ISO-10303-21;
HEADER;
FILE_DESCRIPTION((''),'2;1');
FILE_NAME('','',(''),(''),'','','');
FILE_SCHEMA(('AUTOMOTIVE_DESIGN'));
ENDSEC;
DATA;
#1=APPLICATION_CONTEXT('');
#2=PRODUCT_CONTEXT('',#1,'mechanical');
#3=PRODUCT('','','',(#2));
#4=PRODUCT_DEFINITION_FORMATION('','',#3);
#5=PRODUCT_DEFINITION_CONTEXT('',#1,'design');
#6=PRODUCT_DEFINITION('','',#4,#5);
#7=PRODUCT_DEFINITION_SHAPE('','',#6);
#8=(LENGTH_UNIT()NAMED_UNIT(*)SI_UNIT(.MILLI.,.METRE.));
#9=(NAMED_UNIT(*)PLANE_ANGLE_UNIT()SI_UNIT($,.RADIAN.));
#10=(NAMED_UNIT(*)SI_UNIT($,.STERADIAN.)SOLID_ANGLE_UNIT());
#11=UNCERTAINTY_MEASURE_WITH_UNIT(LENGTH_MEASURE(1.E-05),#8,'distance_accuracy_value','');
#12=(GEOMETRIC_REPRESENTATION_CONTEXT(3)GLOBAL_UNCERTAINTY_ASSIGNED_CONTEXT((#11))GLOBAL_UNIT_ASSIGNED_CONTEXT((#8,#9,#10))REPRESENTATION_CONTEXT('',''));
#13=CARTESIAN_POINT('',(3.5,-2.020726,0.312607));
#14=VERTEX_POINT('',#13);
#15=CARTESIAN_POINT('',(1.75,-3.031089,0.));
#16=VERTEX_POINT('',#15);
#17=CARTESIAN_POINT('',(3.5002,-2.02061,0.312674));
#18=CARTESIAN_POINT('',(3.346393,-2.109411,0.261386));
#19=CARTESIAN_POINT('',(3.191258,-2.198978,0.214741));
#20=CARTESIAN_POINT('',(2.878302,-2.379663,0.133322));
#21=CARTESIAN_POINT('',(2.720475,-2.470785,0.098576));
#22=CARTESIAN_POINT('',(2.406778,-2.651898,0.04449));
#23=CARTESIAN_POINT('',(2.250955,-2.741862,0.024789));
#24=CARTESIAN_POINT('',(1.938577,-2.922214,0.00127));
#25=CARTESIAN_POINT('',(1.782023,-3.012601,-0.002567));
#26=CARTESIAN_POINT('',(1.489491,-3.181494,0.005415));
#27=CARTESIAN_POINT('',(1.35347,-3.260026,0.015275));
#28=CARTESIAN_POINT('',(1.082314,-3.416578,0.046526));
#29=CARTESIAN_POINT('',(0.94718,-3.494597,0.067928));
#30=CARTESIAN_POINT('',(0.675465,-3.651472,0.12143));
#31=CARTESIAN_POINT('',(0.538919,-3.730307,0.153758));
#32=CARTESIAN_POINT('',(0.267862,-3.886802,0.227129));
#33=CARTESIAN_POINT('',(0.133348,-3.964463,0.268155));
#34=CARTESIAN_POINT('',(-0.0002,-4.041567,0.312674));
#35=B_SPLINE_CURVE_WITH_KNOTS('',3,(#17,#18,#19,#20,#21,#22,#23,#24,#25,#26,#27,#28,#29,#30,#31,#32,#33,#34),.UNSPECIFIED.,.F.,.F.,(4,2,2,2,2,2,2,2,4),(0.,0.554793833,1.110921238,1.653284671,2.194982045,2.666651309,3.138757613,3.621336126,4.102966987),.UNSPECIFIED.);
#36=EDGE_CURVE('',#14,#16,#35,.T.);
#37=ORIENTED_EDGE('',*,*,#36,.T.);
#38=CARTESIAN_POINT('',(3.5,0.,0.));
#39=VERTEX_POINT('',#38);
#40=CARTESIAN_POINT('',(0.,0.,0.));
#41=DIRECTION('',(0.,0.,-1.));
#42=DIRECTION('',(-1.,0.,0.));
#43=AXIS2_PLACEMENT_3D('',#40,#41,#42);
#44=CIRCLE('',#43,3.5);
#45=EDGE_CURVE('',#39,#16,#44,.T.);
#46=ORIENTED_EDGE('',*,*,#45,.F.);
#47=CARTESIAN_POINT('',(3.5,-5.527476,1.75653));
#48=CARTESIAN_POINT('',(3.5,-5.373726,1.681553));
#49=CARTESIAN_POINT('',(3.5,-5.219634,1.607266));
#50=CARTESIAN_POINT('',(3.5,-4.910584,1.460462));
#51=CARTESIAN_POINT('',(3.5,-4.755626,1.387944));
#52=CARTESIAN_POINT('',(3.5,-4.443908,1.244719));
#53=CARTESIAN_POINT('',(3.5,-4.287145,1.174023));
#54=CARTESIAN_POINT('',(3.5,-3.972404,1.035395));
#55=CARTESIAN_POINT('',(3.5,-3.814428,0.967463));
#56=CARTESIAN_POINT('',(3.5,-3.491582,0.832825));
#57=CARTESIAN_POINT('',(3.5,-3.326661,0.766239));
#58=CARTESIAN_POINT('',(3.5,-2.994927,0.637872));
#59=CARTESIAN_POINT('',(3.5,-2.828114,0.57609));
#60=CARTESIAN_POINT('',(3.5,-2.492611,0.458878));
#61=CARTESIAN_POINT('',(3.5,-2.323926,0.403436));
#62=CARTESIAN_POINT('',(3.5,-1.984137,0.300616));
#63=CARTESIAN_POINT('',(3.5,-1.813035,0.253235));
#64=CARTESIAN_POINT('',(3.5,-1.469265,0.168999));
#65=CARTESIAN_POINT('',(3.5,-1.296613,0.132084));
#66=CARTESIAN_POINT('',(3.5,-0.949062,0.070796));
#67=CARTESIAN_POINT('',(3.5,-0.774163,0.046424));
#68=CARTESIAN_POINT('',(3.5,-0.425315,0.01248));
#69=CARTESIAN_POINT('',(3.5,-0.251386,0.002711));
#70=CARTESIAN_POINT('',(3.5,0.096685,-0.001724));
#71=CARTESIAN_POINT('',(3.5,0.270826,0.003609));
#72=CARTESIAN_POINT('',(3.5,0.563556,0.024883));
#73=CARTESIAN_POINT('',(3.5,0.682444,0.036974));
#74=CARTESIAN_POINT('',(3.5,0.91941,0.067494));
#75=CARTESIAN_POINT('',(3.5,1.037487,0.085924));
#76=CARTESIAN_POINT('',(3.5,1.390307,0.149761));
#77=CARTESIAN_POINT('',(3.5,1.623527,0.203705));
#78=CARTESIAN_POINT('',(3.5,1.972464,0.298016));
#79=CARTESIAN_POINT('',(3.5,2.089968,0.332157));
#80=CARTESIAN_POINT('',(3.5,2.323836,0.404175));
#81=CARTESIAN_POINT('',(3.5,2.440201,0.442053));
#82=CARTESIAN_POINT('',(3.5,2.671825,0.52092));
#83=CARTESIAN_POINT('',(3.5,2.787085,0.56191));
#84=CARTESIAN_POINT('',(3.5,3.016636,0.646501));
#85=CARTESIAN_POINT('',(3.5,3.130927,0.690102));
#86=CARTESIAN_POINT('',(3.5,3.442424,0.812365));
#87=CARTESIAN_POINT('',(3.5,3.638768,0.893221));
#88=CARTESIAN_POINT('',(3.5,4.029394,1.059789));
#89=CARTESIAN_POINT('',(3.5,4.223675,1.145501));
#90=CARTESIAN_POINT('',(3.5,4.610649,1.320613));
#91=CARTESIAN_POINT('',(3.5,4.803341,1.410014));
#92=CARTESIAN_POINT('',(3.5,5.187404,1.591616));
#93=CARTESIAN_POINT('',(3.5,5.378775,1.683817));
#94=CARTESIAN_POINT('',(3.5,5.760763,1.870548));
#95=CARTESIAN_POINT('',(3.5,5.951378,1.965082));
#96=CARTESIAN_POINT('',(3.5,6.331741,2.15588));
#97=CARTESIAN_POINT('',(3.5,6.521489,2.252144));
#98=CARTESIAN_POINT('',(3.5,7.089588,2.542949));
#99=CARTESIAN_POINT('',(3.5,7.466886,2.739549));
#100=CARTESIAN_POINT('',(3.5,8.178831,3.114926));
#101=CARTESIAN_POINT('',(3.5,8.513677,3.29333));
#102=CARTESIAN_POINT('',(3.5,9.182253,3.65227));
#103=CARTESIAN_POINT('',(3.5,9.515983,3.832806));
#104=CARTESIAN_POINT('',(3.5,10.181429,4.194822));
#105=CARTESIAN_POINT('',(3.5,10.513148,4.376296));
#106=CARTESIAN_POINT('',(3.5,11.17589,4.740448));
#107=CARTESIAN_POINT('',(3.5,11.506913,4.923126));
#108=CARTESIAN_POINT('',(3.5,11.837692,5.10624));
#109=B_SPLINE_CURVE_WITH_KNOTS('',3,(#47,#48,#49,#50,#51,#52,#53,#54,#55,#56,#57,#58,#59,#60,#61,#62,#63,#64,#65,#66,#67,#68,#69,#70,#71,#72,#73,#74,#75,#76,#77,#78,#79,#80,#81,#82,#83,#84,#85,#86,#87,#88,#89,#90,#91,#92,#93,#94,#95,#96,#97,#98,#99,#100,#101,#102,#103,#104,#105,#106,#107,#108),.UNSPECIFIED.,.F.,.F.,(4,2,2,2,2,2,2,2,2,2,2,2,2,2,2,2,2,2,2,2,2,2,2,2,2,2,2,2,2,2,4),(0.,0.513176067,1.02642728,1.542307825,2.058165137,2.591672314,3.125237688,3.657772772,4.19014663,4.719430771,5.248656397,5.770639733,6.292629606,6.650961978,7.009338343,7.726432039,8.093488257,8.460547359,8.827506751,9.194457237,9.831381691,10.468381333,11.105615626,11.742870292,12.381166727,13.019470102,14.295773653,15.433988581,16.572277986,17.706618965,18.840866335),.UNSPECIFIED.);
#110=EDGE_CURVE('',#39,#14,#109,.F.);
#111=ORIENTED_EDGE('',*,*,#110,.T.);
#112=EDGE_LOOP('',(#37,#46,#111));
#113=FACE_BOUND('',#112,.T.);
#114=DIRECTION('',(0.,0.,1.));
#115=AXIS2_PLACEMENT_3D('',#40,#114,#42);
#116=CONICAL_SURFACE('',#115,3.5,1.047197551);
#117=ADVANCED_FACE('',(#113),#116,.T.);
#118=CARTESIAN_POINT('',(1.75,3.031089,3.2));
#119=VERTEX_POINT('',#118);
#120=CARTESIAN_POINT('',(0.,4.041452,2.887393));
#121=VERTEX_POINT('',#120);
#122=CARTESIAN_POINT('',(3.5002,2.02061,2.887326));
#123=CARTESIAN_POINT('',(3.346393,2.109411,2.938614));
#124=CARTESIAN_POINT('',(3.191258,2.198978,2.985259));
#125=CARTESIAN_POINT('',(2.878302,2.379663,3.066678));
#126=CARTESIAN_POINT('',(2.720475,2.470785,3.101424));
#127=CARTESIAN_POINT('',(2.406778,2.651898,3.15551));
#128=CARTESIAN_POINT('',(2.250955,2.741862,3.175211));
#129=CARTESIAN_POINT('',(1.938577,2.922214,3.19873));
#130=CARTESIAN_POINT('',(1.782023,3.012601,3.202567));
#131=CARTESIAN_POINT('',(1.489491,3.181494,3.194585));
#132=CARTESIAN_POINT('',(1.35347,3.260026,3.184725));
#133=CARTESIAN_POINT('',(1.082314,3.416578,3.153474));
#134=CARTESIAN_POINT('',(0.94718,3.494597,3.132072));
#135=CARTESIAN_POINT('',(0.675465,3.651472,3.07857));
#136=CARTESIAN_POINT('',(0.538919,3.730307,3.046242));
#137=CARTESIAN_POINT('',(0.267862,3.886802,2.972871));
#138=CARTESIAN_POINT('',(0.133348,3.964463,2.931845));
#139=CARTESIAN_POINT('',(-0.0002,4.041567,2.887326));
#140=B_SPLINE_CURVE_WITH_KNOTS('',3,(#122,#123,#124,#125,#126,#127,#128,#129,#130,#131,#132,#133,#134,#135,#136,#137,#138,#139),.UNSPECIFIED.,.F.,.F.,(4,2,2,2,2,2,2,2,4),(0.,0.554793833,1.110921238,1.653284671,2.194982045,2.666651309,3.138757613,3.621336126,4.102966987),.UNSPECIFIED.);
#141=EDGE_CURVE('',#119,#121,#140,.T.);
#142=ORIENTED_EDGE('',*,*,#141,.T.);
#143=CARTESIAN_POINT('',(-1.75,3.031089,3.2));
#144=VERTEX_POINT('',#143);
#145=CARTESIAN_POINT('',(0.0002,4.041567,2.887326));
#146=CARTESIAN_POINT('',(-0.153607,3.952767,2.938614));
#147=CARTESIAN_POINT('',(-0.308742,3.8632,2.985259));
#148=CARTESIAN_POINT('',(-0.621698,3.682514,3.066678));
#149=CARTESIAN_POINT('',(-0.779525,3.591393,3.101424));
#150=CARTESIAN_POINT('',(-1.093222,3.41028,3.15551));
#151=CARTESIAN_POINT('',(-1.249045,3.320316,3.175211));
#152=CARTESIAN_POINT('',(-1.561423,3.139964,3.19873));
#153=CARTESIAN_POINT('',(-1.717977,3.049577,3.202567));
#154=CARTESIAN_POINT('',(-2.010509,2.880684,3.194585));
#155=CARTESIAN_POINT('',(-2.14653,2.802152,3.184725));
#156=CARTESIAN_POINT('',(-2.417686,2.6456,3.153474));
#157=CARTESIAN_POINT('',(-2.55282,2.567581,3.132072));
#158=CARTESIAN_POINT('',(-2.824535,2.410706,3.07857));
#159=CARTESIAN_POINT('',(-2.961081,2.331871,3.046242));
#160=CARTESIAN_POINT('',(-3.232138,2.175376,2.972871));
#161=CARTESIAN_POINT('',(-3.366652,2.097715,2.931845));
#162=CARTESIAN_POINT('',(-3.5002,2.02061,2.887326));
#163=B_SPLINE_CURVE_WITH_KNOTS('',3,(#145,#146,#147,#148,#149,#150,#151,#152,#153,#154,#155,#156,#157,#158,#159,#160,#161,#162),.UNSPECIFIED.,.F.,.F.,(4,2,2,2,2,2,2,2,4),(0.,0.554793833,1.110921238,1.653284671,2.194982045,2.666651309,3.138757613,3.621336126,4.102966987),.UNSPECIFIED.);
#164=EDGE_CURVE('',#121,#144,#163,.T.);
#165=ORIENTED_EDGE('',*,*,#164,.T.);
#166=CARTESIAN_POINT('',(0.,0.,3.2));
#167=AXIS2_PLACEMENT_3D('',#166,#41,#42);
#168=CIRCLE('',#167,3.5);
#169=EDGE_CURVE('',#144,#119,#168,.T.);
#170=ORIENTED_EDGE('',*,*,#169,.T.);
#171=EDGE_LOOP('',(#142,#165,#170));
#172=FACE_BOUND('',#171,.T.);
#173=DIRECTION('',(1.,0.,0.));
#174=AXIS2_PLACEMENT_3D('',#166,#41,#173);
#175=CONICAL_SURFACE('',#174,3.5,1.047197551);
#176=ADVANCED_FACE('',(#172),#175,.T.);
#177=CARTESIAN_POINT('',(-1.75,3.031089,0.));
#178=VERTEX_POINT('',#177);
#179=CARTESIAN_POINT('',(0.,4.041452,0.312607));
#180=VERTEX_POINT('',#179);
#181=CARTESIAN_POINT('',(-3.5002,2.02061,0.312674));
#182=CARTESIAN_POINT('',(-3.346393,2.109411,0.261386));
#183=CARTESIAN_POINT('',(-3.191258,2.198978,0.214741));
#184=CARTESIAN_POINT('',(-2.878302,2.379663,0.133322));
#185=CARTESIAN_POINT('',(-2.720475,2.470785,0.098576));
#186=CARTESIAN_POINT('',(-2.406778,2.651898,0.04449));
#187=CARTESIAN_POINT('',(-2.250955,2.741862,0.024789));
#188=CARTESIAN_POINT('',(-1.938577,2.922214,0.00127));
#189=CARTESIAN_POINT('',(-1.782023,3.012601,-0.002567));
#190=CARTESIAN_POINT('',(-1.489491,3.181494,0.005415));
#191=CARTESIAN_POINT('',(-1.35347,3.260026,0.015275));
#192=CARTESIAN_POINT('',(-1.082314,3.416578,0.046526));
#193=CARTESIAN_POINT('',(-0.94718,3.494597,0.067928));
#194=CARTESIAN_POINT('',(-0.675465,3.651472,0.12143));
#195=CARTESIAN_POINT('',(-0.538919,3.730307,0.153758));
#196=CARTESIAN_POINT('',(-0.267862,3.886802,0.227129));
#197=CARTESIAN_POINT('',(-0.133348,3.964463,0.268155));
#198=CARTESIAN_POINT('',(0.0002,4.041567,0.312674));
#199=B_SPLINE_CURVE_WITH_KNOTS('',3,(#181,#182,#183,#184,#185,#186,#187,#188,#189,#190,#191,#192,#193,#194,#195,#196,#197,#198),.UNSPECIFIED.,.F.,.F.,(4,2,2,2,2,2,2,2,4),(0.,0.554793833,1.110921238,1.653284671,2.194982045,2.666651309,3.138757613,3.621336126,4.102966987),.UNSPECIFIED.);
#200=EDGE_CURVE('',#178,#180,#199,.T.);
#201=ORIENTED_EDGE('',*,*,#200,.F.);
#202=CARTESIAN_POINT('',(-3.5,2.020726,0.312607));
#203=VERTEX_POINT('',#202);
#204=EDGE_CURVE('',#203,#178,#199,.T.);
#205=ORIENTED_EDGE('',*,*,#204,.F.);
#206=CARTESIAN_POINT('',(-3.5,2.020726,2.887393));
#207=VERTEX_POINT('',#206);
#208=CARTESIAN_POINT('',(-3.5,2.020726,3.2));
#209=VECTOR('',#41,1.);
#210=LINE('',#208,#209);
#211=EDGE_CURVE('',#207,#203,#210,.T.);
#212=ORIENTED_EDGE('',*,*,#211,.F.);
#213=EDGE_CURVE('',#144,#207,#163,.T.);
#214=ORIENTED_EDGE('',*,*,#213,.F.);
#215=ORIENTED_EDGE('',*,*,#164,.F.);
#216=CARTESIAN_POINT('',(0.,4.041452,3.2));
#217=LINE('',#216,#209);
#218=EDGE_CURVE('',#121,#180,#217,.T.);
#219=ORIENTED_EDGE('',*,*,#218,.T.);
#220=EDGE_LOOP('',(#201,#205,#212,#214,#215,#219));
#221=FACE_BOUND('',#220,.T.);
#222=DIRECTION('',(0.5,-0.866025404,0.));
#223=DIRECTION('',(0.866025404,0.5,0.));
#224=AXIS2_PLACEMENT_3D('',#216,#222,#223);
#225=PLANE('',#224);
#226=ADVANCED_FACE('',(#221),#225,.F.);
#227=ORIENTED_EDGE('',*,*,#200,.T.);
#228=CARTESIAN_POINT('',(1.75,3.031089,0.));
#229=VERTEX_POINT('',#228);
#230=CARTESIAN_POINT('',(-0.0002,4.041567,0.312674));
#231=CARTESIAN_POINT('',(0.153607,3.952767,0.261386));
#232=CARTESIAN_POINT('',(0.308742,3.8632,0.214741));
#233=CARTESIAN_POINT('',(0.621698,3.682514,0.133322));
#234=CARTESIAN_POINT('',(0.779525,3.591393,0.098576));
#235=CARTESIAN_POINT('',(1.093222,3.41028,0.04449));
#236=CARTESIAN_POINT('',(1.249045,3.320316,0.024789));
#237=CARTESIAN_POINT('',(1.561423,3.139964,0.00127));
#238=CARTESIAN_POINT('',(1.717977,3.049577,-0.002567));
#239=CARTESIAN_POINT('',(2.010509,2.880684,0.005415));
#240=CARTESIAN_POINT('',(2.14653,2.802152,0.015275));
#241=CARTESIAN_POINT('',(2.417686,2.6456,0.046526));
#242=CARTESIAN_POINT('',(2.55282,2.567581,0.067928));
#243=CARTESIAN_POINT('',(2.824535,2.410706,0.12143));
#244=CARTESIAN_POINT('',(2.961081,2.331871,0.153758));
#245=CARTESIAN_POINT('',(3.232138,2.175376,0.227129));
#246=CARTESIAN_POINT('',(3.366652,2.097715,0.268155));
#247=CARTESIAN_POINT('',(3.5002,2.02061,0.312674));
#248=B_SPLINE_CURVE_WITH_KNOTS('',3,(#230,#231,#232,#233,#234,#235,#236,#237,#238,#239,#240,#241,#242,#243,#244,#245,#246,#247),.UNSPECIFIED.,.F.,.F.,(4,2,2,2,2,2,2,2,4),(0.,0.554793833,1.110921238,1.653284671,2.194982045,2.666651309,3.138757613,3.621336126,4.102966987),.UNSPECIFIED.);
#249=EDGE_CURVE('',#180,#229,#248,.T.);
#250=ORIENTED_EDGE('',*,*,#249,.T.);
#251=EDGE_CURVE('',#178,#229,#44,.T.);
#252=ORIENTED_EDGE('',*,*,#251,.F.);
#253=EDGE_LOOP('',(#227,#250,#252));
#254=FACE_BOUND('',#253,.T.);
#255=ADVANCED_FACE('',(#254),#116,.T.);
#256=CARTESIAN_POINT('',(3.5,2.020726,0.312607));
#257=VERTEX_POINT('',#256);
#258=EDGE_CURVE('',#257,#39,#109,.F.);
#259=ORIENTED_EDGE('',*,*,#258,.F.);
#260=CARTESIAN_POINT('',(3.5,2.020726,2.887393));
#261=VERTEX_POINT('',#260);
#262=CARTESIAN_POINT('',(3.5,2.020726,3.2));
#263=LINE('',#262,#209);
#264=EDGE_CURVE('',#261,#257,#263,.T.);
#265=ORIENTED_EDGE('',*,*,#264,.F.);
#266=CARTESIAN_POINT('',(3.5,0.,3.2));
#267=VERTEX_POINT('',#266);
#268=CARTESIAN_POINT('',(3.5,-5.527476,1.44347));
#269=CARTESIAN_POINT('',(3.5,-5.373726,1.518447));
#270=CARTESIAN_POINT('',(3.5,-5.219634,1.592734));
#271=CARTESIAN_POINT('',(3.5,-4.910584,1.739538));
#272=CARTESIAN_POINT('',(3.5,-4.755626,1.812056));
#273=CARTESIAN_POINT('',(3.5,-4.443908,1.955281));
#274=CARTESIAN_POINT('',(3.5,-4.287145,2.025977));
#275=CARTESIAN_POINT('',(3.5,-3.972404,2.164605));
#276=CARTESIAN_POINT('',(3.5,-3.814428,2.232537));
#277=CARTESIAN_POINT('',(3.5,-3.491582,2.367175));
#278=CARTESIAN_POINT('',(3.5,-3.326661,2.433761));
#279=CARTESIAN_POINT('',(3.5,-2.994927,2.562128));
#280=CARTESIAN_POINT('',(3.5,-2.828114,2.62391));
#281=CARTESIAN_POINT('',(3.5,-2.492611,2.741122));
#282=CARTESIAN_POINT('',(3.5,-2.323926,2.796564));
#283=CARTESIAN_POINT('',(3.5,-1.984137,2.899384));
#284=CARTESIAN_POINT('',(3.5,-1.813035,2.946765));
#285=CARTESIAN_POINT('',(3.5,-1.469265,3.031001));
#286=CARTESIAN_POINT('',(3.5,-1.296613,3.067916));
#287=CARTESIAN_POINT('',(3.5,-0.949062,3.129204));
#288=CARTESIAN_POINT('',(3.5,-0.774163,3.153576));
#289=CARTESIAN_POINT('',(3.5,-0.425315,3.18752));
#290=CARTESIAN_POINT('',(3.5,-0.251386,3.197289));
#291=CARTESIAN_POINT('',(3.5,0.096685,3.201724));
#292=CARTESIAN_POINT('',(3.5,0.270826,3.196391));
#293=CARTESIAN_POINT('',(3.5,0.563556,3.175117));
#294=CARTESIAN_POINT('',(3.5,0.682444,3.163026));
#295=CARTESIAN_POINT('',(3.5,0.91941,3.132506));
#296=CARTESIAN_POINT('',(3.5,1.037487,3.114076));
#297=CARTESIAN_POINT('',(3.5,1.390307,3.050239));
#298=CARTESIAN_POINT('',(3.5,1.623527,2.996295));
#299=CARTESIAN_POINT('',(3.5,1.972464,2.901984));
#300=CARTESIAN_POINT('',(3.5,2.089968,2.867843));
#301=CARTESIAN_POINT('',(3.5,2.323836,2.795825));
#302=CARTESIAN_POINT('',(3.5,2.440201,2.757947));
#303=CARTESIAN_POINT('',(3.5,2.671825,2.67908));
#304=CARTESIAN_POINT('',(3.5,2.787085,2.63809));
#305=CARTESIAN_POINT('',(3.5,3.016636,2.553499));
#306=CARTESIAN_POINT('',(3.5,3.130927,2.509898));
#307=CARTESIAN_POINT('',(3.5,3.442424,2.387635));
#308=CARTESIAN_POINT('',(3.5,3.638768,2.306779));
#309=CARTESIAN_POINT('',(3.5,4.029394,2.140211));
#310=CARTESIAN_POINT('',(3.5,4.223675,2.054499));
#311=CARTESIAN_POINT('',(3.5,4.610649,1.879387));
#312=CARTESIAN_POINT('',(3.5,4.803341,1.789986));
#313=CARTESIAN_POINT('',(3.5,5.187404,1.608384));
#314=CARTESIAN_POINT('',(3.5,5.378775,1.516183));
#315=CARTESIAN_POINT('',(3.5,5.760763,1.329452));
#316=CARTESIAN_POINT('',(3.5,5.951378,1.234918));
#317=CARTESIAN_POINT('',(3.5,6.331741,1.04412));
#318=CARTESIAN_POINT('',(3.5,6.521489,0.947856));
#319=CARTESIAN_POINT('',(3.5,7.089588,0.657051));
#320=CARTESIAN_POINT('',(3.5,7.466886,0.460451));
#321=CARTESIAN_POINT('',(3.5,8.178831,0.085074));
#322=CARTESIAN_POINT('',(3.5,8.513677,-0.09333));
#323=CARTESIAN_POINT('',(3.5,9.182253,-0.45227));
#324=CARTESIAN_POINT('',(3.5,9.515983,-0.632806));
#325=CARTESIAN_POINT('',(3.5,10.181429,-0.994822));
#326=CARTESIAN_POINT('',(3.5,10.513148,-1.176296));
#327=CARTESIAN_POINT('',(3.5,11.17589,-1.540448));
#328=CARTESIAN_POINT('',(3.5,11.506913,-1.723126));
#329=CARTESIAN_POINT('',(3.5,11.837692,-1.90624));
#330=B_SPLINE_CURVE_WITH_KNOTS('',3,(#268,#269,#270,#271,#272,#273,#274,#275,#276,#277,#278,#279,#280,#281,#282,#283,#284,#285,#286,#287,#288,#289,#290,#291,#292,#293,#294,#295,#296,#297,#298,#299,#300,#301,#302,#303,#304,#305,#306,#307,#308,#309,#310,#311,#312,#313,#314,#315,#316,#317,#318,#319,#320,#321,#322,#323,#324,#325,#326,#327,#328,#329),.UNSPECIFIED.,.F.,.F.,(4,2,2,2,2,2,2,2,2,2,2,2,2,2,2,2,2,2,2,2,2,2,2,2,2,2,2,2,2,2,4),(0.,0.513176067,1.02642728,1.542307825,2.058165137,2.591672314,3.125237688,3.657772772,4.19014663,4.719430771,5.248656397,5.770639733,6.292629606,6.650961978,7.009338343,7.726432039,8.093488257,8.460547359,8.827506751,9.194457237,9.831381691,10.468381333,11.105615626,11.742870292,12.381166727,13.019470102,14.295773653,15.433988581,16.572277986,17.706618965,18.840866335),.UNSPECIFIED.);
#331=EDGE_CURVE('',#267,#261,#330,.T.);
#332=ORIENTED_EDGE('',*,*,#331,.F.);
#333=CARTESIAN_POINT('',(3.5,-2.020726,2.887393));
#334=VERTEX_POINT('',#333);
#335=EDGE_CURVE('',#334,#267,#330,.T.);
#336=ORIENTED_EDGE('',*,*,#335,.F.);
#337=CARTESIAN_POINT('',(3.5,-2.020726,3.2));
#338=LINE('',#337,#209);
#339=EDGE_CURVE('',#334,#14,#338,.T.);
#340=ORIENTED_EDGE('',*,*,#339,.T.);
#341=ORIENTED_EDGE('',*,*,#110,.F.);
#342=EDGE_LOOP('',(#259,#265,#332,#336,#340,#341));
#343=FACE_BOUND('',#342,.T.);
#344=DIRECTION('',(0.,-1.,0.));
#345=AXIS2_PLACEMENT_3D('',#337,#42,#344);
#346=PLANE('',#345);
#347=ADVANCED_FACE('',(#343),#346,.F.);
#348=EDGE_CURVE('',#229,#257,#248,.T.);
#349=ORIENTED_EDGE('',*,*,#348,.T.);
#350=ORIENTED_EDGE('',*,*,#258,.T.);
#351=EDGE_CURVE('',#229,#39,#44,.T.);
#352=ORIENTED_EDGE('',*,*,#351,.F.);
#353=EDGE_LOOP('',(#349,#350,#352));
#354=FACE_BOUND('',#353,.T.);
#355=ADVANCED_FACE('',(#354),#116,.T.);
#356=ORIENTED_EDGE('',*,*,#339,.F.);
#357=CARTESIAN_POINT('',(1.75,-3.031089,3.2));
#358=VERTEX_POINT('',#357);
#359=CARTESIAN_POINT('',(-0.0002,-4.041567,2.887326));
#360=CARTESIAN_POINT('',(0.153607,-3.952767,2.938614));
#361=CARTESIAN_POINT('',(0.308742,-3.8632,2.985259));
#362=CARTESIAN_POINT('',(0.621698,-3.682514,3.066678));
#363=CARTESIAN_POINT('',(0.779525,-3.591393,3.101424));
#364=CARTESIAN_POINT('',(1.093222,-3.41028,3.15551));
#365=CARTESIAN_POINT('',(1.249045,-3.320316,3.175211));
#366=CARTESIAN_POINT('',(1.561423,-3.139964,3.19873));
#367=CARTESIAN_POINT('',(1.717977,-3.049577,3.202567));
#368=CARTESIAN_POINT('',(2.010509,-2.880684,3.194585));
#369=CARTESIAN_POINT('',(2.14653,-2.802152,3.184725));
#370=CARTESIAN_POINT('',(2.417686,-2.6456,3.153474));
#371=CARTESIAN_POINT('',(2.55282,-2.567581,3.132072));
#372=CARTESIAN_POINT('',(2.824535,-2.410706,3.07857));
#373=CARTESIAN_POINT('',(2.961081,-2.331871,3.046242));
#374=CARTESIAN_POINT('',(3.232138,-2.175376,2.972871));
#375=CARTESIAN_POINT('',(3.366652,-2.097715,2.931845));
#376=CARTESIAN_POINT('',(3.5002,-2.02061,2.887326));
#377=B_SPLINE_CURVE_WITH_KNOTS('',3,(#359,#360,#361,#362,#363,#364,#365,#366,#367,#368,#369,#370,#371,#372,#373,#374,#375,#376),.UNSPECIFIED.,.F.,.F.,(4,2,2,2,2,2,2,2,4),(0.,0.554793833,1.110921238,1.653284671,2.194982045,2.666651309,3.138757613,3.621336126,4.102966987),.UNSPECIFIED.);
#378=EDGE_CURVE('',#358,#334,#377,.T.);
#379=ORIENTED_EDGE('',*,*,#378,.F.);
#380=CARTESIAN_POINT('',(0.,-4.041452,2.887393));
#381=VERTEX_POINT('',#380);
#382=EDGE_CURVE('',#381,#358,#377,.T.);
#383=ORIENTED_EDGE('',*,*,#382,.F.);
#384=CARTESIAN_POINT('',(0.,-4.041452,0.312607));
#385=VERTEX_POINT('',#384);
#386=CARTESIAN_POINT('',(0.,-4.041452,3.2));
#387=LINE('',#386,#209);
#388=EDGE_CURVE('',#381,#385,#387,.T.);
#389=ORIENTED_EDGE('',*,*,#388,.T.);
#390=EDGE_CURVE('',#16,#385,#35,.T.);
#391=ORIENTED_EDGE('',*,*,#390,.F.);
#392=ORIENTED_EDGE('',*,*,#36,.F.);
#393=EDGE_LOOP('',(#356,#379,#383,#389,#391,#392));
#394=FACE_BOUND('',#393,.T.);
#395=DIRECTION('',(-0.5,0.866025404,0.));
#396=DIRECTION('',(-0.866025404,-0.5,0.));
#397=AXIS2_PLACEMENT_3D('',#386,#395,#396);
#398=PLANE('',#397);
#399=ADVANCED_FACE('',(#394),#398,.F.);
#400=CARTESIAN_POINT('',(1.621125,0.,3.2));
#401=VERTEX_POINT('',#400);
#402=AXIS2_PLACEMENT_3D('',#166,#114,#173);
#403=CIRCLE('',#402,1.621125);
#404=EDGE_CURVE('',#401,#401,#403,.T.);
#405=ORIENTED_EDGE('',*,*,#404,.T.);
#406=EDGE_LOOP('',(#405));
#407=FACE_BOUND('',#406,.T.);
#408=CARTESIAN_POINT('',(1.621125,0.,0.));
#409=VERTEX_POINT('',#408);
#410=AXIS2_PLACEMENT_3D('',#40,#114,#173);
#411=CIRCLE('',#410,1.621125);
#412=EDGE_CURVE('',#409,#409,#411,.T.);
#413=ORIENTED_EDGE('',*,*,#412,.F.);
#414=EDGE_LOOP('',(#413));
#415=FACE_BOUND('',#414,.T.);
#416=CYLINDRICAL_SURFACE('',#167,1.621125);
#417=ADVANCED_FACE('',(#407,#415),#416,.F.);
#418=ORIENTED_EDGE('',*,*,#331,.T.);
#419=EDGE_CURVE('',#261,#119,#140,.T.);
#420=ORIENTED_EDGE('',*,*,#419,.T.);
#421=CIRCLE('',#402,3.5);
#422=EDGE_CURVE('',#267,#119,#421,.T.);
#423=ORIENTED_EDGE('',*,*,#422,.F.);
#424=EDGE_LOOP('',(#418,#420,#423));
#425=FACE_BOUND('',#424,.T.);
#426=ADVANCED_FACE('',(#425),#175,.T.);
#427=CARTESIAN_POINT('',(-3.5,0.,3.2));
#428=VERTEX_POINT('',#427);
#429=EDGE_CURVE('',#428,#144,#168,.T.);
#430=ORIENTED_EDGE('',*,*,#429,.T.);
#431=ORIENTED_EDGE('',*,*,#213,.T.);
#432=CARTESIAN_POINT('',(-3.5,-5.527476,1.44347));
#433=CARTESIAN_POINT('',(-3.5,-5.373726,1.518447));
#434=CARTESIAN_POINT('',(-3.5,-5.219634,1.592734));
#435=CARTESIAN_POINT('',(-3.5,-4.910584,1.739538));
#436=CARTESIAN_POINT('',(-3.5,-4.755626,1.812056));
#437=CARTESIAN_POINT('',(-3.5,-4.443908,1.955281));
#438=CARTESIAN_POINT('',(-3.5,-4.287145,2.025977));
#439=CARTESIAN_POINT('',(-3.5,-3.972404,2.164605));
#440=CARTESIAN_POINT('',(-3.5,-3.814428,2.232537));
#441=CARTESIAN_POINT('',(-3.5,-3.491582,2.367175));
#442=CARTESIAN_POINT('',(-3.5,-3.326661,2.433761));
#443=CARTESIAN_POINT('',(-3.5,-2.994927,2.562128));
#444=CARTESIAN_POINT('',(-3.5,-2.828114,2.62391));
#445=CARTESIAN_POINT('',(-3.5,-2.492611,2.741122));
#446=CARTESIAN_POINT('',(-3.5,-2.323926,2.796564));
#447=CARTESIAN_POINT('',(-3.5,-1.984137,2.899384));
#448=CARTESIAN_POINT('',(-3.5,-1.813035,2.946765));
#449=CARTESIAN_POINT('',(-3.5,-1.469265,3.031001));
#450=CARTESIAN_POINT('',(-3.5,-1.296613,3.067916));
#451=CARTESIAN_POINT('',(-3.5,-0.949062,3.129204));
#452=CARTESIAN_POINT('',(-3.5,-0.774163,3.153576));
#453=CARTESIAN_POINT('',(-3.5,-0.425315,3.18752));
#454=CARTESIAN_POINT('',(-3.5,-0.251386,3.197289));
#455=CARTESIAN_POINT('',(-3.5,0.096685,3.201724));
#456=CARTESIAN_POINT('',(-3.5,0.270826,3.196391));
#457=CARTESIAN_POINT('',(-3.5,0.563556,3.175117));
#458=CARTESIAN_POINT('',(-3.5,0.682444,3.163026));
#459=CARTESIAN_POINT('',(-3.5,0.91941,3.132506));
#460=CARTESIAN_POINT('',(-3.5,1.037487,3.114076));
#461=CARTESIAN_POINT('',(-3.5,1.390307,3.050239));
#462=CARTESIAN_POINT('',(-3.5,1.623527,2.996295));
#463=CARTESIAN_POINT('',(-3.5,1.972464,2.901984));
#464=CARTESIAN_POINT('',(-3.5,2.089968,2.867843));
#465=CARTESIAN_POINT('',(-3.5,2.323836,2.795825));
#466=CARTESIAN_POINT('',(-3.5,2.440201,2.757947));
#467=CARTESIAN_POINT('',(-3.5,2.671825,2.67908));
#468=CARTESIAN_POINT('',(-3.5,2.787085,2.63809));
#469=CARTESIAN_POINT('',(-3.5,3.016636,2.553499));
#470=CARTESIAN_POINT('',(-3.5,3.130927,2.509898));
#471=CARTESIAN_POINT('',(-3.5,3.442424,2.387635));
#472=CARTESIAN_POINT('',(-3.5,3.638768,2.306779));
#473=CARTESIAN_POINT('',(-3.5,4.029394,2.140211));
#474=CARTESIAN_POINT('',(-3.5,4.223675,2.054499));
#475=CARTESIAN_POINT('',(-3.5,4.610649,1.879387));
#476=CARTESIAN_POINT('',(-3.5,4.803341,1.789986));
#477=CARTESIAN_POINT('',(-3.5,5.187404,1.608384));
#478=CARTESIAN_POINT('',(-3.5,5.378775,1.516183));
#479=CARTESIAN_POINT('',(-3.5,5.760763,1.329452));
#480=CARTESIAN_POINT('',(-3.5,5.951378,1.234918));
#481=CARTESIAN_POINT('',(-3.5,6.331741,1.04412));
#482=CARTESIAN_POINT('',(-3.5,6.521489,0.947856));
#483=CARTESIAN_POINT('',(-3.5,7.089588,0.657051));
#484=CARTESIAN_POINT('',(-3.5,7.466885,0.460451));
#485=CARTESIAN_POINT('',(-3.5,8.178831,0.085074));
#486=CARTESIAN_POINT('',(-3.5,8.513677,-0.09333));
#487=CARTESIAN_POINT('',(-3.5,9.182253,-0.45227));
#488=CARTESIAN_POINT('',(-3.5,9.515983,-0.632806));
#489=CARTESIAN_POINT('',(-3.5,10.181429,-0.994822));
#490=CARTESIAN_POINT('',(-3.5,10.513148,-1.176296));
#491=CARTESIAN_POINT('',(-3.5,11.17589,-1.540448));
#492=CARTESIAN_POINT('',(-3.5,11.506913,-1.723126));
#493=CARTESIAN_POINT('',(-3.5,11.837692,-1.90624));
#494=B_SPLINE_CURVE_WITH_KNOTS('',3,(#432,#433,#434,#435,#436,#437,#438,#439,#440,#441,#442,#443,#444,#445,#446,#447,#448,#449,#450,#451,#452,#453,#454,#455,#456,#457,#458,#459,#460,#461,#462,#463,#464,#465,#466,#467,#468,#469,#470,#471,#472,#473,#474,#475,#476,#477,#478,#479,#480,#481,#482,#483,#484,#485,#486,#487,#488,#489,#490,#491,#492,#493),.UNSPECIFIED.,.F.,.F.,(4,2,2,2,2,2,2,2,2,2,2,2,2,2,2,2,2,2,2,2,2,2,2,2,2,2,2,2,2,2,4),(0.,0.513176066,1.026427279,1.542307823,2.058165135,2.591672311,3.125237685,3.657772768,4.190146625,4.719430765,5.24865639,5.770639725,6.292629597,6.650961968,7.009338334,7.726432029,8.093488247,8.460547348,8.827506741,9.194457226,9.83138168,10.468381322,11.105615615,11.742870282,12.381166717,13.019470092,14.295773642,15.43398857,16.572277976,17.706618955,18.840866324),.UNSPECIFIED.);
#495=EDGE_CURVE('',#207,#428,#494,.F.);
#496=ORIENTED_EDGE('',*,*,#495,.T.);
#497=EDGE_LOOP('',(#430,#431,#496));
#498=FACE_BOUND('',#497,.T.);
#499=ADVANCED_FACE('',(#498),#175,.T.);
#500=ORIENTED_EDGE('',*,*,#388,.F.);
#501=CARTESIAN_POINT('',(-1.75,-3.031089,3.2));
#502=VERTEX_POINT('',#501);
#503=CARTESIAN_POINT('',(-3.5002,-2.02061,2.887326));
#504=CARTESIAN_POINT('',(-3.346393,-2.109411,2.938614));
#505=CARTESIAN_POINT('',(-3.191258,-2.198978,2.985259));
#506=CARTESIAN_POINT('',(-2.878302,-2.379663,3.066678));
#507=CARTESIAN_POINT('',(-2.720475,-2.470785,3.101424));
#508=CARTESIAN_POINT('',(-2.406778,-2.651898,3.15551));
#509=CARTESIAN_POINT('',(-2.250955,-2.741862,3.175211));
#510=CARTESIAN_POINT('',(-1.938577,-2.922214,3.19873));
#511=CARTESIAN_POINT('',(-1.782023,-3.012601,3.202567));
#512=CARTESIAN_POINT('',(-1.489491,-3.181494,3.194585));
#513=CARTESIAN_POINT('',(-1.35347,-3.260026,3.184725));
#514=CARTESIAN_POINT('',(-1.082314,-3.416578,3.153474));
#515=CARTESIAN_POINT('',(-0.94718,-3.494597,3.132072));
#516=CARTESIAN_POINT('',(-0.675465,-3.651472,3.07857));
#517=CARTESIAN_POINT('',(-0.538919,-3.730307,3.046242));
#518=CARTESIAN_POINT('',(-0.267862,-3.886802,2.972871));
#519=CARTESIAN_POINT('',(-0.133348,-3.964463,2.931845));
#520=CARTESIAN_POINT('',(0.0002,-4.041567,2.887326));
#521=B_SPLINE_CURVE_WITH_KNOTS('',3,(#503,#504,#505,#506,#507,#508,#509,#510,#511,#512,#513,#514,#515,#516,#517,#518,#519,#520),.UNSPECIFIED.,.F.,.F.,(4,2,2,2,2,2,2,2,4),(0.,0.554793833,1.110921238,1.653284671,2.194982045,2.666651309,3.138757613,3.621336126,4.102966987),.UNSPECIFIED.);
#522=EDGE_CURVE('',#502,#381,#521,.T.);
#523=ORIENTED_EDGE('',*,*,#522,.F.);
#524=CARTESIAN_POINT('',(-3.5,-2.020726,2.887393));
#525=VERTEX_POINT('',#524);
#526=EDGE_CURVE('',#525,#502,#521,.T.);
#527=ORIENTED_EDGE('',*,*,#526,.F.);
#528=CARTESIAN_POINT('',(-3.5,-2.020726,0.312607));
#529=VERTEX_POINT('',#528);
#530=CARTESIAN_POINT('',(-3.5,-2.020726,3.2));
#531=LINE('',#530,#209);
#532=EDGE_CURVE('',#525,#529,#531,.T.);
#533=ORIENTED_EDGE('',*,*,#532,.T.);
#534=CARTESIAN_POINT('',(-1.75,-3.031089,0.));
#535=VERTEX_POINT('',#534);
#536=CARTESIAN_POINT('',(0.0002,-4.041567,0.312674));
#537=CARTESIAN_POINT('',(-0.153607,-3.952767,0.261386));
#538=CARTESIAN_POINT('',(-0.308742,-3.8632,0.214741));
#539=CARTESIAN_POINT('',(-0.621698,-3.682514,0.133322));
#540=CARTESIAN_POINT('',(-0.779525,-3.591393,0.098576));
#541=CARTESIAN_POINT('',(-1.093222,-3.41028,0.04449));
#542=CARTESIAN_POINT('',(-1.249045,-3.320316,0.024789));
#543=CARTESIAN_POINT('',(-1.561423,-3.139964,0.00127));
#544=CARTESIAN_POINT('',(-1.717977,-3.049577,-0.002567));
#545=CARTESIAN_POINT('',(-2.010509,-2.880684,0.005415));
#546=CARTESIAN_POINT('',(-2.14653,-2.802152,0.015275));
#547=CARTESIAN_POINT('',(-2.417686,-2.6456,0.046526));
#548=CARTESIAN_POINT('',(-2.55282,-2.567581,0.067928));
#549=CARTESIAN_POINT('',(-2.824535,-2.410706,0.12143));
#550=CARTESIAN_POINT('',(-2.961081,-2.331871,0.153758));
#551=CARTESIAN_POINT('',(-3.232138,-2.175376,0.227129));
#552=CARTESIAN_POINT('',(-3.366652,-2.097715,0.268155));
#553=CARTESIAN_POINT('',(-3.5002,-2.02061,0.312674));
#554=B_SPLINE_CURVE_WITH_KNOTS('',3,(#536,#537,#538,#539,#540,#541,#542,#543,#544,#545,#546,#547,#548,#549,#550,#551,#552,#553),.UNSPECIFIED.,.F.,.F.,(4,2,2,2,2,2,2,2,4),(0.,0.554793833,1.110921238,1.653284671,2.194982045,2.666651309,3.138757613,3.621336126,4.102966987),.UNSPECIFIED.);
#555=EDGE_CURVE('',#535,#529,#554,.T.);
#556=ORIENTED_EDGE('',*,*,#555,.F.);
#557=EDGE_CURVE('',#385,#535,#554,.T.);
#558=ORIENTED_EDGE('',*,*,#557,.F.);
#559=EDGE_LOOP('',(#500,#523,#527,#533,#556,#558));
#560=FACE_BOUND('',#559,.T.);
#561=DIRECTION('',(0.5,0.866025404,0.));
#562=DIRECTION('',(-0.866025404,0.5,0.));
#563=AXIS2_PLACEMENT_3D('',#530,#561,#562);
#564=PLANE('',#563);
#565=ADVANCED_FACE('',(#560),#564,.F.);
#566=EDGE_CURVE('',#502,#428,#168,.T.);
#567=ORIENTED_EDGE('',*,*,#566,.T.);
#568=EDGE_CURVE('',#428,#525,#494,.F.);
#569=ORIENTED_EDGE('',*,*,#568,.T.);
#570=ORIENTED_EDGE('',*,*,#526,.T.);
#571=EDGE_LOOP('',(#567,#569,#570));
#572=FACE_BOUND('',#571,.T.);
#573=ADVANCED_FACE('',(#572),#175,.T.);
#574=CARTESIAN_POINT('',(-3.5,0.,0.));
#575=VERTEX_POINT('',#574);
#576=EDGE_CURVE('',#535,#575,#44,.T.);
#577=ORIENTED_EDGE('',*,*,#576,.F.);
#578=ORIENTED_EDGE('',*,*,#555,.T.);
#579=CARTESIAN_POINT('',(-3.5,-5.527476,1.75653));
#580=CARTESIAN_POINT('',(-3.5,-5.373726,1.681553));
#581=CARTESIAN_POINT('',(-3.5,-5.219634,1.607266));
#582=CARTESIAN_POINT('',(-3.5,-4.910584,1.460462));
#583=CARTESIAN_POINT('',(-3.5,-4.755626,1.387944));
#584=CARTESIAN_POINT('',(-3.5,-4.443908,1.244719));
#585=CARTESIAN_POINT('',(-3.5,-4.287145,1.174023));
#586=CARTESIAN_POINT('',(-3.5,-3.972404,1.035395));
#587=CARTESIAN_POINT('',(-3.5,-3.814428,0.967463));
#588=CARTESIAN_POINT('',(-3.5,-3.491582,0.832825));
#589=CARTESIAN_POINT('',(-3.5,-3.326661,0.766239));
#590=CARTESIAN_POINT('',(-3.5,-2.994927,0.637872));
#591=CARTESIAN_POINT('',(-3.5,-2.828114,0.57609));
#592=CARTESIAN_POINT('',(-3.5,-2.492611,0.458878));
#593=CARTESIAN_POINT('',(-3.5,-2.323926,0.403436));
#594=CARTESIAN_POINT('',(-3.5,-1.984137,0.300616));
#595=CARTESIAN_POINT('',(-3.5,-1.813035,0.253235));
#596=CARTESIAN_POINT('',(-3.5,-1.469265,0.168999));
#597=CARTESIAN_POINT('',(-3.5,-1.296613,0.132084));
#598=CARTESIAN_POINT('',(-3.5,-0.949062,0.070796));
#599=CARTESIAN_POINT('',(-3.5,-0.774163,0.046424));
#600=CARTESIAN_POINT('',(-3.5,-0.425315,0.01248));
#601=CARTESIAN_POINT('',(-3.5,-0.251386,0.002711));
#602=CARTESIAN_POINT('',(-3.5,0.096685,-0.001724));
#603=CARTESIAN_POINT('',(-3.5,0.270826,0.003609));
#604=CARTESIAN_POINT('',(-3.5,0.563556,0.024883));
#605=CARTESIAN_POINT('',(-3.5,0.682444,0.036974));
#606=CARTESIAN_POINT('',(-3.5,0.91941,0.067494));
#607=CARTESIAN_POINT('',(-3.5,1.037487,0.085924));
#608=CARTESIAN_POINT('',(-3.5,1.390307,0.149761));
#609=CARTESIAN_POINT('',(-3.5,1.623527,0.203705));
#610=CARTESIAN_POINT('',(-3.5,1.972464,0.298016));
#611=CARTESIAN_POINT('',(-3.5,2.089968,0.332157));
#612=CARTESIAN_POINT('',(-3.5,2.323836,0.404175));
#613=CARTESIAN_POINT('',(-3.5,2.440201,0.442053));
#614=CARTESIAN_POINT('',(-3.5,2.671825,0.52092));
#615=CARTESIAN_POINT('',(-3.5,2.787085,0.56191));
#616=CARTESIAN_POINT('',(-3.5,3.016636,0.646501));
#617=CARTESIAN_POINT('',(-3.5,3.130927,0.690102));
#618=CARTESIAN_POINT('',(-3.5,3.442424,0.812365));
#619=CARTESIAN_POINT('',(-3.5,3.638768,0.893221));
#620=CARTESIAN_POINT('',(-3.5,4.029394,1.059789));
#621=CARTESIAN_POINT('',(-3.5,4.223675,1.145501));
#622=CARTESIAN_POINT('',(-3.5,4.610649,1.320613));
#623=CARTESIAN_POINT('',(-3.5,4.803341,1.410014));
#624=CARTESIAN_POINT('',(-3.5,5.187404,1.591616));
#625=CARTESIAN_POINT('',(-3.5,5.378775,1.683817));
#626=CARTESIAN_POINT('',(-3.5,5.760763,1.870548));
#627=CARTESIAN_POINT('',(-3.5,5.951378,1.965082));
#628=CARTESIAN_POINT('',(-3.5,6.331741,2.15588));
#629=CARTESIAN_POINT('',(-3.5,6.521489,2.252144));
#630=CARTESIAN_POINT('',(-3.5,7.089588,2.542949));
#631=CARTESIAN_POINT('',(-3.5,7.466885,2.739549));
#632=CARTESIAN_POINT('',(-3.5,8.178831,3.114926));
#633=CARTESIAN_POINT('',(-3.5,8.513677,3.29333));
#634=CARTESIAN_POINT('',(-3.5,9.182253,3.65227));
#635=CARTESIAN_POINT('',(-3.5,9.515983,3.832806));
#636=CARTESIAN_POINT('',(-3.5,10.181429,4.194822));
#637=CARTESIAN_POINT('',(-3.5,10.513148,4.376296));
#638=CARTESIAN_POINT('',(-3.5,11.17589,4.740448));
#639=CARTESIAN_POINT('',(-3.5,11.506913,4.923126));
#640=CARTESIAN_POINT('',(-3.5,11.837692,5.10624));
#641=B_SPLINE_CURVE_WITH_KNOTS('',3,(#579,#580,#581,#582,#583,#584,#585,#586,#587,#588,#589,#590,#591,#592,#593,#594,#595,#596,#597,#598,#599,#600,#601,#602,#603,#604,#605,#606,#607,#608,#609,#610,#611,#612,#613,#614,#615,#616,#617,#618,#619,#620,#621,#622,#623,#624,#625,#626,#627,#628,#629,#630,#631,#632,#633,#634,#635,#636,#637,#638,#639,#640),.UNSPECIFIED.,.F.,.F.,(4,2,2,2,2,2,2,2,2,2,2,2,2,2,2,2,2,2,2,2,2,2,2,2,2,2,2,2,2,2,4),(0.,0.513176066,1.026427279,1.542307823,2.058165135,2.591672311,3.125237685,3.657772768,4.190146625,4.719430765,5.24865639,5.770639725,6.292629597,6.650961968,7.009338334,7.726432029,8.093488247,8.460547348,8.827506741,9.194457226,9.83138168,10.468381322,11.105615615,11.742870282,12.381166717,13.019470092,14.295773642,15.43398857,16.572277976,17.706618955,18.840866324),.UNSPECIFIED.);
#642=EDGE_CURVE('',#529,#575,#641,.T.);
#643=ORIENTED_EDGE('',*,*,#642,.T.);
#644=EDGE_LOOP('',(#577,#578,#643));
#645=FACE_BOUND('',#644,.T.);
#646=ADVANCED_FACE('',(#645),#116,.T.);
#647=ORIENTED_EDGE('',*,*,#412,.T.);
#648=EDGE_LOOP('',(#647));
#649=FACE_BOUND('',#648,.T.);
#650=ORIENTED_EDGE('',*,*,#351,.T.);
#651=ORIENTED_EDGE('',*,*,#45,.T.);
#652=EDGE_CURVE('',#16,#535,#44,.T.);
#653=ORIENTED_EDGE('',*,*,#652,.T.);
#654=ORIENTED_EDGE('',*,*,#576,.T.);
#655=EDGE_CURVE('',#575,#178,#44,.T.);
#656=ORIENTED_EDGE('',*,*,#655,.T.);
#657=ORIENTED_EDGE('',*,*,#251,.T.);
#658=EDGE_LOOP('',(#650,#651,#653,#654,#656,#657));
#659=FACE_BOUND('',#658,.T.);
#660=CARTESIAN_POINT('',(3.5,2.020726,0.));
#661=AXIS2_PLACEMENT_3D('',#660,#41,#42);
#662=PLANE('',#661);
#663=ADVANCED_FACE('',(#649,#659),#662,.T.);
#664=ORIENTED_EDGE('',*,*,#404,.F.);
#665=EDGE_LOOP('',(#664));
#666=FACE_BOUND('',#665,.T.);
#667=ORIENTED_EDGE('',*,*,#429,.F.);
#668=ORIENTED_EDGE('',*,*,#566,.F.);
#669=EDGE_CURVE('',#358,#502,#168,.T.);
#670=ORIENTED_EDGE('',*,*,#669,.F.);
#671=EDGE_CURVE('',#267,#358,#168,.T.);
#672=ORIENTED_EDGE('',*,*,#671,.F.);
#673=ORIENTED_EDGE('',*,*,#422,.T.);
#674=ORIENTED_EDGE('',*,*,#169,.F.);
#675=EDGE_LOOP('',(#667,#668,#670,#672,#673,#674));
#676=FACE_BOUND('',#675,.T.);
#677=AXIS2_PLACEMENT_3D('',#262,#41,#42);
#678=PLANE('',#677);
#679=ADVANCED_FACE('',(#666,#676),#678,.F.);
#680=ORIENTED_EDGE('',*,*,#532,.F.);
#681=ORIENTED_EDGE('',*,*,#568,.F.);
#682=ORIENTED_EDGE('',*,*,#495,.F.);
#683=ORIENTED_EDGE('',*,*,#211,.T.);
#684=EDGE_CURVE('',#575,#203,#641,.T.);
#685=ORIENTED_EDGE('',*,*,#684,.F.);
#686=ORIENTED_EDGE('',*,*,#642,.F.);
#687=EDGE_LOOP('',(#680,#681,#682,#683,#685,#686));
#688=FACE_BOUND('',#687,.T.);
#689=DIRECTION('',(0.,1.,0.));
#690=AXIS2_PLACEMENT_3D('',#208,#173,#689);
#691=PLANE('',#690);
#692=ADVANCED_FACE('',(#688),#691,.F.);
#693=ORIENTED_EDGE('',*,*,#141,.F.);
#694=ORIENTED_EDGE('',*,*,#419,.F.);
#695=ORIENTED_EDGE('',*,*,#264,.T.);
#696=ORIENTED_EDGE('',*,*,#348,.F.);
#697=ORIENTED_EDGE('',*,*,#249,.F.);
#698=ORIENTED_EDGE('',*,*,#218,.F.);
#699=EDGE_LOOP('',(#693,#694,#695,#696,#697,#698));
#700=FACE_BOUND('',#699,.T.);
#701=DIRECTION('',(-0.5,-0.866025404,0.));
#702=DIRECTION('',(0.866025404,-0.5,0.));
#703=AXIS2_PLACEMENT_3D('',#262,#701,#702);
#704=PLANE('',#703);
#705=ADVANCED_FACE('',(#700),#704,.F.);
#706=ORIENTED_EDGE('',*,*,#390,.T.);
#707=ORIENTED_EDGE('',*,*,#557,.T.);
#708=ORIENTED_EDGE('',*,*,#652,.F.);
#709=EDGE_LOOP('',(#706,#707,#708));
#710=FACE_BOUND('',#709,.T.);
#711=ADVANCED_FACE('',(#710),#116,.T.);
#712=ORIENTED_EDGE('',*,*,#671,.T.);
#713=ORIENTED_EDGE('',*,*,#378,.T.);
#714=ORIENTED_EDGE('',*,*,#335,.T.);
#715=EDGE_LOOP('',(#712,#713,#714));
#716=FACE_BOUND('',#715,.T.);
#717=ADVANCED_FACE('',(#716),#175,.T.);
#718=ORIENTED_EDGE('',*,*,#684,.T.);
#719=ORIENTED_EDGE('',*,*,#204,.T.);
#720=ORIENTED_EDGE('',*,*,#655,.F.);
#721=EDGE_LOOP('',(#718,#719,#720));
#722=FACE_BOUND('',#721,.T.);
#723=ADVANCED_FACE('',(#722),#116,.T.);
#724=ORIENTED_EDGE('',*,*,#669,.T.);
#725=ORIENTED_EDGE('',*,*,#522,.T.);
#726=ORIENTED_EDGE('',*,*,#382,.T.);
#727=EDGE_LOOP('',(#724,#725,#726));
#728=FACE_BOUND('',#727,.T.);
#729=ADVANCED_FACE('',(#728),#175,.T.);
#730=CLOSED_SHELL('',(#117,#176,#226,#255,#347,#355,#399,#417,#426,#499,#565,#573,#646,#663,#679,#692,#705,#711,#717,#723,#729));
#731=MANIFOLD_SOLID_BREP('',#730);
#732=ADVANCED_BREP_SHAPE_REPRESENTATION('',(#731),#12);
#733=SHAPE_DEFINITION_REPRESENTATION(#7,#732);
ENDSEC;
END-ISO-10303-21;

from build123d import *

# Parameters (mm, degrees)
SKETCH_1_R          = 1.621125
EXTRUDE_403_DEPTH   = 3.2
SKETCH_2_OUTSIDE_W  = 36.28
SKETCH_2_OUTSIDE_H  = 37.362
SKETCH_2_OUTSIDE_R  = 3.5
CUT_EXTRUDE_1_DEPTH = 7.23083729
CUT_EXTRUDE_1_DRAFT = -60
SKETCH_3_OUTSIDE_W  = 36.28
SKETCH_3_OUTSIDE_H  = 37.362
SKETCH_3_OUTSIDE_R  = 3.5
CUT_EXTRUDE_2_DEPTH = 7.23083729
CUT_EXTRUDE_2_DRAFT = -60


with BuildPart() as part:
    # 草图1 → Extrude 403 (new body)
    with BuildSketch(Plane.XY):
        Polygon((0, 4.041451884), (-3.5, 2.020725942), (-3.5, -2.020725942), (0, -4.041451884), (3.5, -2.020725942), (3.5, 2.020725942), align=None)
        Circle(SKETCH_1_R, mode=Mode.SUBTRACT)
    extrude(amount=EXTRUDE_403_DEPTH)


with BuildPart() as cut_extrude_1_tool:
    # 草图2 outside → 切除-拉伸1 (with draft: the straight prism first)
    with BuildSketch(Plane(origin=(0, 0, 0), x_dir=(-1, 0, 0), z_dir=(0, 0, -1))):
        Rectangle(SKETCH_2_OUTSIDE_W, SKETCH_2_OUTSIDE_H)
        Circle(SKETCH_2_OUTSIDE_R, mode=Mode.SUBTRACT)
    extrude(amount=-CUT_EXTRUDE_1_DEPTH)
    # 切除-拉伸1: the draft: its side faces are tilted about the plane it starts from
    cut_extrude_1_sides = [cut_extrude_1_tool.faces().sort_by_distance(p)[0] for p in [
        (0, -18.681, 3.615418645),
        (-18.14, 0, 3.615418645),
        (0, 18.681, 3.615418645),
        (18.14, 0, 3.615418645),
        (3.5, 0, 3.615418645),
    ]]
    draft(cut_extrude_1_sides, Plane(origin=(0, 0, 0), x_dir=(-1, 0, 0), z_dir=(0, 0, -1)), CUT_EXTRUDE_1_DRAFT)


with BuildPart() as part_1:
    add(part.part)

    # 切除-拉伸1: cut by cut_extrude_1_tool
    add(cut_extrude_1_tool.part, mode=Mode.SUBTRACT)


with BuildPart() as cut_extrude_2_tool:
    # 草图3 outside → 切除-拉伸2 (with draft: the straight prism first)
    with BuildSketch(Plane.XY.offset(3.2)):
        Rectangle(SKETCH_3_OUTSIDE_W, SKETCH_3_OUTSIDE_H)
        Circle(SKETCH_3_OUTSIDE_R, mode=Mode.SUBTRACT)
    extrude(amount=-CUT_EXTRUDE_2_DEPTH)
    # 切除-拉伸2: the draft: its side faces are tilted about the plane it starts from
    cut_extrude_2_sides = [cut_extrude_2_tool.faces().sort_by_distance(p)[0] for p in [
        (0, -18.681, -0.415418645),
        (18.14, 0, -0.415418645),
        (0, 18.681, -0.415418645),
        (-18.14, 0, -0.415418645),
        (-3.5, 0, -0.415418645),
    ]]
    draft(cut_extrude_2_sides, Plane.XY.offset(3.2), CUT_EXTRUDE_2_DRAFT)


with BuildPart() as part_2:
    add(part_1.part)

    # 切除-拉伸2: cut by cut_extrude_2_tool
    add(cut_extrude_2_tool.part, mode=Mode.SUBTRACT)


solid = part_2.part
